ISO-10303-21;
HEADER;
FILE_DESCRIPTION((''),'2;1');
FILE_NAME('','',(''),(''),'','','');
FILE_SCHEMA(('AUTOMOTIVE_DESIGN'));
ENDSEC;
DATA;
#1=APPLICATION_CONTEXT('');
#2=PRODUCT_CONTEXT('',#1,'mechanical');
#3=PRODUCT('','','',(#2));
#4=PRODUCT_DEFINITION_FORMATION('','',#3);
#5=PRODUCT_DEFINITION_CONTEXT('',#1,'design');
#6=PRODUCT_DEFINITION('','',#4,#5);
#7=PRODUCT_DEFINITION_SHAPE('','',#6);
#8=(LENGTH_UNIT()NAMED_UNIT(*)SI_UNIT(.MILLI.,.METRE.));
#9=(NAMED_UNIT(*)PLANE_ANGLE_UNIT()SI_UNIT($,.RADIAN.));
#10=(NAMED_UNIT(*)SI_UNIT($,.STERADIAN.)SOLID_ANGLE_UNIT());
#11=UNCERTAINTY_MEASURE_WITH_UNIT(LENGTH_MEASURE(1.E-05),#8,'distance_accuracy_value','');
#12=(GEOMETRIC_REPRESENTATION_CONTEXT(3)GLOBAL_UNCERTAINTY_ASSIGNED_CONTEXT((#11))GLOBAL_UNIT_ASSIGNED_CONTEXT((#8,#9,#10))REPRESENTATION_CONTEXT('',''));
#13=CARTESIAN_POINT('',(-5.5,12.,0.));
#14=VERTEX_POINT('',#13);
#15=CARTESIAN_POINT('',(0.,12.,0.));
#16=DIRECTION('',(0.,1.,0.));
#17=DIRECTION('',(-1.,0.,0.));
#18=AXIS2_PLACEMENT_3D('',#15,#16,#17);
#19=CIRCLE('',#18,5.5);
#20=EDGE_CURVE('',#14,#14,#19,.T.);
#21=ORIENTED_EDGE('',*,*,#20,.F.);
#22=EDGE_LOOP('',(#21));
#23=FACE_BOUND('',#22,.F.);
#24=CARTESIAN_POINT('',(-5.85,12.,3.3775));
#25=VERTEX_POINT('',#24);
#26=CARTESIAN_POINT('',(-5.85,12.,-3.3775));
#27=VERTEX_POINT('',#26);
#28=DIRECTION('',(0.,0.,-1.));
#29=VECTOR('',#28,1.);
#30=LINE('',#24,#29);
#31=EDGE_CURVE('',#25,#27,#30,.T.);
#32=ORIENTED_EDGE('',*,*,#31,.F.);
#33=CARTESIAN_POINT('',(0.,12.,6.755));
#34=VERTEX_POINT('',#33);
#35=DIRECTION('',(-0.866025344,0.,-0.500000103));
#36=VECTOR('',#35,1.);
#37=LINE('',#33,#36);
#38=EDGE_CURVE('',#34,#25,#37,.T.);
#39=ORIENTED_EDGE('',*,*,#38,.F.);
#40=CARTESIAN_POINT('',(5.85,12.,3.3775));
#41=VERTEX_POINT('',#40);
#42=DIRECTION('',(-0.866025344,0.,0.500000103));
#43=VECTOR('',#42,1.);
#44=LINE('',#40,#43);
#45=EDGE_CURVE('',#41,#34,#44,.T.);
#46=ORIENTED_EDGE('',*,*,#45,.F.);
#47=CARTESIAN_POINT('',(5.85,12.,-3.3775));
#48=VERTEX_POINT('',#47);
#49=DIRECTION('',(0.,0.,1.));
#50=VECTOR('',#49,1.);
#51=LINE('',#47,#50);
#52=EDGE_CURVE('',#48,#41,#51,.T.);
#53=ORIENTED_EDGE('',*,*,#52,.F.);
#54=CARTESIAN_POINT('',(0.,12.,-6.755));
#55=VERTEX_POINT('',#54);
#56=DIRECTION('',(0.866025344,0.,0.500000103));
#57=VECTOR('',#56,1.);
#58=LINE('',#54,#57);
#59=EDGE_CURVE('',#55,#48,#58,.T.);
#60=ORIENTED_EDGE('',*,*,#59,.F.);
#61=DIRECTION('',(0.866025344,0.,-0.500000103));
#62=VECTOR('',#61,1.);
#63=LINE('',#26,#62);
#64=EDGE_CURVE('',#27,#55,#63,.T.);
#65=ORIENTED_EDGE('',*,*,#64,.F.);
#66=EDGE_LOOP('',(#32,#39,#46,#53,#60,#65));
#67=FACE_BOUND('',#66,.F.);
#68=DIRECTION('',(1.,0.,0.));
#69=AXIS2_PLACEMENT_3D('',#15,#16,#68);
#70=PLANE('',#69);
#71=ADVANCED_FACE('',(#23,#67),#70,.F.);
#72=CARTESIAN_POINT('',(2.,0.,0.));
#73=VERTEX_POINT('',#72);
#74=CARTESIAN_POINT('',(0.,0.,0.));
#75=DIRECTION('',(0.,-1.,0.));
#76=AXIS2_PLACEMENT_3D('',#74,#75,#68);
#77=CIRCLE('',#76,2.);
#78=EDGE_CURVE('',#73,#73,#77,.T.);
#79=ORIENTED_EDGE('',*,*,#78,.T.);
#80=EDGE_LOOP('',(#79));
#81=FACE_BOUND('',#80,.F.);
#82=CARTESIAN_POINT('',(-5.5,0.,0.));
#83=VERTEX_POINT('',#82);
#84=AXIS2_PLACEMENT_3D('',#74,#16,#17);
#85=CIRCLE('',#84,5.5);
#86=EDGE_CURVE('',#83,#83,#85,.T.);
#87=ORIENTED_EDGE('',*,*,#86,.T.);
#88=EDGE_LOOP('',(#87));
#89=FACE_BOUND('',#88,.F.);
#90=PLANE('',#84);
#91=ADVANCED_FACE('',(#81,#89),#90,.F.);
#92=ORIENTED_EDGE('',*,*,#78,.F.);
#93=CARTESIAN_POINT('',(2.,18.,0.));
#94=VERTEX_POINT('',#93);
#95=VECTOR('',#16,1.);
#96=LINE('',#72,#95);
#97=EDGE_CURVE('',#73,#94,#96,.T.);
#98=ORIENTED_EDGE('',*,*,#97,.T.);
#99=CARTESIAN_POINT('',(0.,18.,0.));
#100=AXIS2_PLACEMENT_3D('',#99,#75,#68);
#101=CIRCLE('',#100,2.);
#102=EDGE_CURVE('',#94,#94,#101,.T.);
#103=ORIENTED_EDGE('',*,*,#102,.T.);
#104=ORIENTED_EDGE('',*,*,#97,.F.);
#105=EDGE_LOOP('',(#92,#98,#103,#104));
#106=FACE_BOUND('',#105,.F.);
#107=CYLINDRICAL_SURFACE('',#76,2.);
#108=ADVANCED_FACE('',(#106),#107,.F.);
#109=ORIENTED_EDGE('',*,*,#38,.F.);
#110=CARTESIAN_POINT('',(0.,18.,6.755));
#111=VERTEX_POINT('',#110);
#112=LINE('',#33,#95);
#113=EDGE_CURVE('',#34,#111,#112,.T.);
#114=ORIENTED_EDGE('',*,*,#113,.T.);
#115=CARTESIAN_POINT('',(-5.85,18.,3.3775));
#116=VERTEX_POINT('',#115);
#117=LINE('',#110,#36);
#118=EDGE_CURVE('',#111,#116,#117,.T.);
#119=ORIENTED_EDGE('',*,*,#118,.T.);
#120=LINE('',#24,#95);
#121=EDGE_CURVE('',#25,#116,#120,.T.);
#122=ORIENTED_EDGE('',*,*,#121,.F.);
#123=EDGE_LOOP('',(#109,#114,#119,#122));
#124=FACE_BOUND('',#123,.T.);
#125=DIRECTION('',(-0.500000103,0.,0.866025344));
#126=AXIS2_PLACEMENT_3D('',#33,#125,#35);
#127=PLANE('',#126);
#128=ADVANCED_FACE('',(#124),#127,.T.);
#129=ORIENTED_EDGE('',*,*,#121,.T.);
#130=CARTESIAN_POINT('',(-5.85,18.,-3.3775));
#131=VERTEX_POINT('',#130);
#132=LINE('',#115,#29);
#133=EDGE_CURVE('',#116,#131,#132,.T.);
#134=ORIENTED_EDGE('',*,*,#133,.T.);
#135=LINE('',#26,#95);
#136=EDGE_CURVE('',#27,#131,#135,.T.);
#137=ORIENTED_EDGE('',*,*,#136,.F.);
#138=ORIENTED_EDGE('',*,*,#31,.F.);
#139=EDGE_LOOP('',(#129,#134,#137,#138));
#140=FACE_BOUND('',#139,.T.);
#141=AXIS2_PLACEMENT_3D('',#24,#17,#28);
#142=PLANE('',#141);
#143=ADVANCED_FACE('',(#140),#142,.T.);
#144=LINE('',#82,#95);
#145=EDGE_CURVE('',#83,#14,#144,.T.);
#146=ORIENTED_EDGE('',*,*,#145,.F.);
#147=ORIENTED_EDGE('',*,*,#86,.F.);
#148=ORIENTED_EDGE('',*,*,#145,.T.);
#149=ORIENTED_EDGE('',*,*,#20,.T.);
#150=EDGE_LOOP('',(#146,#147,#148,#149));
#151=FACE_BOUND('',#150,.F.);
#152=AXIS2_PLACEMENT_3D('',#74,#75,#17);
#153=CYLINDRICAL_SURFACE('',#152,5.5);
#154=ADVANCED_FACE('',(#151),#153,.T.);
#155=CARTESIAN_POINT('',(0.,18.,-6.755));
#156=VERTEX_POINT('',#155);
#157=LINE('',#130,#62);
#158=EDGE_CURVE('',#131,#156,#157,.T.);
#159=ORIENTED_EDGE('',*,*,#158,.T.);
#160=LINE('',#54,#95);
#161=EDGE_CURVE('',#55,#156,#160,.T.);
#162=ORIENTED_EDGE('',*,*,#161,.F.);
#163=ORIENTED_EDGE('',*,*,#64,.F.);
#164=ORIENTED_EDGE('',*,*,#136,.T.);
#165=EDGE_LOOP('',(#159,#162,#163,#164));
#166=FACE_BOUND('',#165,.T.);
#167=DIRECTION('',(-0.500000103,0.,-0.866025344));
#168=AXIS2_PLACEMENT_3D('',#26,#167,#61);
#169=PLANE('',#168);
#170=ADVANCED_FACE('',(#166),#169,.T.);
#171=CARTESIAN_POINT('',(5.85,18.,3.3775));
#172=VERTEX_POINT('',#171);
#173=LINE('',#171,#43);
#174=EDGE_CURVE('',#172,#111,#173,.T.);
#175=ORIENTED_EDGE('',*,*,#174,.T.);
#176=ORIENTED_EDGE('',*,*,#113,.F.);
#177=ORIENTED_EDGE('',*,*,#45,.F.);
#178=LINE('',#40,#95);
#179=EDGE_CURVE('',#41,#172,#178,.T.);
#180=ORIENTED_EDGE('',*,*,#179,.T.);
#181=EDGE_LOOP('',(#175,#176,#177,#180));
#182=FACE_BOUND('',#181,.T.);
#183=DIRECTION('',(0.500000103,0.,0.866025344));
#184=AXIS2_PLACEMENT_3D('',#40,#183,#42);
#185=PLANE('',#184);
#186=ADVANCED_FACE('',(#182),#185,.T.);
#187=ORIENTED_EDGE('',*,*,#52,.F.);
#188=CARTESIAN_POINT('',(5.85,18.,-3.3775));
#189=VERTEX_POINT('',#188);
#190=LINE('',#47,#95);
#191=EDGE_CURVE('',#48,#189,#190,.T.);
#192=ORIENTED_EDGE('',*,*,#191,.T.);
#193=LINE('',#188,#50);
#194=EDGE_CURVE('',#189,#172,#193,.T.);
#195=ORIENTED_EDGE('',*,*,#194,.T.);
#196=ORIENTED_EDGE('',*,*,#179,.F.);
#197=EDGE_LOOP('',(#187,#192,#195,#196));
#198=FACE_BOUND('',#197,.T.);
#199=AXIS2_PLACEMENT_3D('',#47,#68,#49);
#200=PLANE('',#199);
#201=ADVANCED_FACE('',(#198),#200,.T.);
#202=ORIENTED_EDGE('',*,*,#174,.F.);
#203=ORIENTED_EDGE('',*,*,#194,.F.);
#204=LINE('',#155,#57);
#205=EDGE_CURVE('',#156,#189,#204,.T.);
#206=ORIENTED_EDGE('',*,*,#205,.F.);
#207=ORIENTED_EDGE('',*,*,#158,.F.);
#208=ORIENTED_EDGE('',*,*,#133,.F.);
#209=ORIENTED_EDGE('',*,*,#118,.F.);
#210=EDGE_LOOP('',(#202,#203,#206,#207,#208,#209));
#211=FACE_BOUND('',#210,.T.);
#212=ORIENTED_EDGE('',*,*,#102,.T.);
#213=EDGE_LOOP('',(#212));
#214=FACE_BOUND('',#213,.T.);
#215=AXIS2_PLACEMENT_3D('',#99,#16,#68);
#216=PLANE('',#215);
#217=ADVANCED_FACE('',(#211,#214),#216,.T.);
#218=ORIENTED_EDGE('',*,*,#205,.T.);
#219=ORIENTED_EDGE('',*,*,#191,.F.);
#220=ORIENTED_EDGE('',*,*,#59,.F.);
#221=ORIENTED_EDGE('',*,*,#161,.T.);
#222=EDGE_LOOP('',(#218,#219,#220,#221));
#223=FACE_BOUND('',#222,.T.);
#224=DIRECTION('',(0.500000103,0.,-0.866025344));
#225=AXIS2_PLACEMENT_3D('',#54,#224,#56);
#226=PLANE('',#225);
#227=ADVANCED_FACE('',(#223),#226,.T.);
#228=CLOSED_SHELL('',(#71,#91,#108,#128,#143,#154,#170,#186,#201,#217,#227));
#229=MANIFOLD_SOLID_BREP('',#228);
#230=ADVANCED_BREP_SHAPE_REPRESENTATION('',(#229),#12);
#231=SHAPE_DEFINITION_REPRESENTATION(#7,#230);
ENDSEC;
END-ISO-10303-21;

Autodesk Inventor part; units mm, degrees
ref_plane "XZ Plane" through (0, 0, 0) normal (0, 1, 0) x (-1, 0, 0)
ref_plane "XY Plane" through (0, 0, 0) normal (0, 0, 1) x (1, 0, 0)
sketch "草圖1" plane through (0, 0, 0) normal (0, 1, 0) x (-1, 0, 0)
  circle A0 centre (0, 0) radius 5.5
  dimension "d0" = 11
extrude "擠出1" add sketch "草圖1" along normal blind 12
sketch "草圖2" plane through (0, 12, 0) normal (0, 1, 0) x (1, 0, 0)
  line L0 (5.85, -3.3775) -> (0, -6.755)
  line L1 (0, -6.755) -> (-5.85, -3.3775)
  line L2 (-5.85, -3.3775) -> (-5.85, 3.3775)
  line L3 (-5.85, 3.3775) -> (0, 6.755)
  line L4 (0, 6.755) -> (5.85, 3.3775)
  line L5 (5.85, 3.3775) -> (5.85, -3.3775)
  point P0 (0, 0)
  point P1 (0, 0)
  dimension "d3" = 11.7
extrude "擠出2" add sketch "草圖2" along normal blind 6
sketch "草圖3" plane through (0, 0, 0) normal (0, -1, 0) x (1, 0, 0)
  circle A0 centre (0, 0) radius 2
  dimension "d6" = 4
extrude "擠出3" cut sketch "草圖3" against normal up to surface (18 mm away)
sketch "草圖6" plane through (0, 0, 0) normal (0, -1, 0) x (1, 0, 0)
  circle A0 centre (0, 0) radius 2 projected
  circle A1 centre (0, 0) radius 5.5 projected
  circle A2 centre (0, 0) radius 2 projected
  line L0 (1.0536, 1.7) -> (-1.0536, 1.7)
  dimension "d15" = 1.7
ref_plane "工作平面2" through (-5.5, 0, 0) normal (1, 0, 0) x (0, 1, 0)
ref_plane "工作平面1" through (5.5, 0, 0) normal (1, 0, 0) x (0, 1, 0)
sketch "草圖8" plane through (0, 0, 0) normal (0, -1, 0) x (1, 0, 0)
  arc A0 (-0.7518, 6.0636) -> (-1.1588, 5.9991) centre (0, 0) ccw
  arc A1 (-1.1588, 5.9991) -> (-1.2788, 5.8304) centre (-1.1303, 5.8518) ccw
  arc A2 (-1.2782, 5.5484) -> (-1.2788, 5.8304) centre (-2.2685, 5.6874) ccw
  arc A3 (-2.2271, 5.24) -> (-1.2782, 5.5484) centre (-1.8278, 5.6255) ccw
  arc A4 (-2.3924, 5.4685) -> (-2.2271, 5.24) centre (-1.5077, 5.9346) ccw
  arc A5 (-2.3924, 5.4685) -> (-2.5887, 5.5345) centre (-2.5252, 5.3986) ccw
  arc A6 (-2.5887, 5.5345) -> (-2.9559, 5.3474) centre (0, 0) ccw
  arc A7 (-2.9559, 5.3474) -> (-3.0179, 5.1498) centre (-2.8833, 5.2161) ccw
  arc A8 (-2.9302, 4.8818) -> (-3.0179, 5.1498) centre (-3.915, 4.708) ccw
  arc A9 (-3.7374, 4.2953) -> (-2.9302, 4.8818) centre (-3.4767, 4.7853) ccw
  arc A10 (-3.9652, 4.4616) -> (-3.7374, 4.2953) centre (-3.2678, 5.1782) ccw
  arc A11 (-3.9652, 4.4616) -> (-4.1723, 4.4637) centre (-4.0698, 4.3541) ccw
  arc A12 (-4.1723, 4.4637) -> (-4.4637, 4.1723) centre (0, 0) ccw
  arc A13 (-4.4637, 4.1723) -> (-4.4616, 3.9652) centre (-4.3541, 4.0698) ccw
  arc A14 (-4.2953, 3.7374) -> (-4.4616, 3.9652) centre (-5.1782, 3.2678) ccw
  arc A15 (-4.8818, 2.9302) -> (-4.2953, 3.7374) centre (-4.7853, 3.4767) ccw
  arc A16 (-5.1498, 3.0179) -> (-4.8818, 2.9302) centre (-4.708, 3.915) ccw
  arc A17 (-5.1498, 3.0179) -> (-5.3474, 2.9559) centre (-5.2161, 2.8833) ccw
  arc A18 (-5.3474, 2.9559) -> (-5.5345, 2.5887) centre (0, 0) ccw
  arc A19 (-5.5345, 2.5887) -> (-5.4685, 2.3924) centre (-5.3986, 2.5252) ccw
  arc A20 (-5.24, 2.2271) -> (-5.4685, 2.3924) centre (-5.9346, 1.5077) ccw
  arc A21 (-5.5484, 1.2782) -> (-5.24, 2.2271) centre (-5.6255, 1.8278) ccw
  arc A22 (-5.8304, 1.2788) -> (-5.5484, 1.2782) centre (-5.6874, 2.2685) ccw
  arc A23 (-5.8304, 1.2788) -> (-5.9991, 1.1588) centre (-5.8518, 1.1303) ccw
  arc A24 (-5.9991, 1.1588) -> (-6.0636, 0.7518) centre (0, 0) ccw
  arc A25 (-6.0636, 0.7518) -> (-5.9402, 0.5855) centre (-5.9147, 0.7333) ccw
  arc A26 (-5.6718, 0.4989) -> (-5.9402, 0.5855) centre (-6.11, -0.4) ccw
  arc A27 (-5.6718, -0.4989) -> (-5.6718, 0.4989) centre (-5.915, 0) ccw
  arc A28 (-5.9402, -0.5855) -> (-5.6718, -0.4989) centre (-6.11, 0.4) ccw
  arc A29 (-5.9402, -0.5855) -> (-6.0636, -0.7518) centre (-5.9147, -0.7333) ccw
  arc A30 (-6.0636, -0.7518) -> (-5.9991, -1.1588) centre (0, 0) ccw
  arc A31 (-5.9991, -1.1588) -> (-5.8304, -1.2788) centre (-5.8518, -1.1303) ccw
  arc A32 (-5.5484, -1.2782) -> (-5.8304, -1.2788) centre (-5.6874, -2.2685) ccw
  arc A33 (-5.24, -2.2271) -> (-5.5484, -1.2782) centre (-5.6255, -1.8278) ccw
  arc A34 (-5.4685, -2.3924) -> (-5.24, -2.2271) centre (-5.9346, -1.5077) ccw
  arc A35 (-5.4685, -2.3924) -> (-5.5345, -2.5887) centre (-5.3986, -2.5252) ccw
  arc A36 (-5.5345, -2.5887) -> (-5.3474, -2.9559) centre (0, 0) ccw
  arc A37 (-5.3474, -2.9559) -> (-5.1498, -3.0179) centre (-5.2161, -2.8833) ccw
  arc A38 (-4.8818, -2.9302) -> (-5.1498, -3.0179) centre (-4.708, -3.915) ccw
  arc A39 (-4.2953, -3.7374) -> (-4.8818, -2.9302) centre (-4.7853, -3.4767) ccw
  arc A40 (-4.4616, -3.9652) -> (-4.2953, -3.7374) centre (-5.1782, -3.2678) ccw
  arc A41 (-4.4616, -3.9652) -> (-4.4637, -4.1723) centre (-4.3541, -4.0698) ccw
  arc A42 (-4.4637, -4.1723) -> (-4.1723, -4.4637) centre (0, 0) ccw
  arc A43 (-4.1723, -4.4637) -> (-3.9652, -4.4616) centre (-4.0698, -4.3541) ccw
  arc A44 (-3.7374, -4.2953) -> (-3.9652, -4.4616) centre (-3.2678, -5.1782) ccw
  arc A45 (-2.9302, -4.8818) -> (-3.7374, -4.2953) centre (-3.4767, -4.7853) ccw
  arc A46 (-3.0179, -5.1498) -> (-2.9302, -4.8818) centre (-3.915, -4.708) ccw
  arc A47 (-3.0179, -5.1498) -> (-2.9559, -5.3474) centre (-2.8833, -5.2161) ccw
  arc A48 (-2.9559, -5.3474) -> (-2.5887, -5.5345) centre (0, 0) ccw
  arc A49 (-2.5887, -5.5345) -> (-2.3924, -5.4685) centre (-2.5252, -5.3986) ccw
  arc A50 (-2.2271, -5.24) -> (-2.3924, -5.4685) centre (-1.5077, -5.9346) ccw
  arc A51 (-1.2782, -5.5484) -> (-2.2271, -5.24) centre (-1.8278, -5.6255) ccw
  arc A52 (-1.2788, -5.8304) -> (-1.2782, -5.5484) centre (-2.2685, -5.6874) ccw
  arc A53 (-1.2788, -5.8304) -> (-1.1588, -5.9991) centre (-1.1303, -5.8518) ccw
  arc A54 (-1.1588, -5.9991) -> (-0.7518, -6.0636) centre (0, 0) ccw
  arc A55 (-0.7518, -6.0636) -> (-0.5855, -5.9402) centre (-0.7333, -5.9147) ccw
  arc A56 (-0.4989, -5.6718) -> (-0.5855, -5.9402) centre (0.4, -6.11) ccw
  arc A57 (0.4989, -5.6718) -> (-0.4989, -5.6718) centre (0, -5.915) ccw
  arc A58 (0.5855, -5.9402) -> (0.4989, -5.6718) centre (-0.4, -6.11) ccw
  arc A59 (0.5855, -5.9402) -> (0.7518, -6.0636) centre (0.7333, -5.9147) ccw
  arc A60 (0.7518, -6.0636) -> (1.1588, -5.9991) centre (0, 0) ccw
  arc A61 (1.1588, -5.9991) -> (1.2788, -5.8304) centre (1.1303, -5.8518) ccw
  arc A62 (1.2782, -5.5484) -> (1.2788, -5.8304) centre (2.2685, -5.6874) ccw
  arc A63 (2.2271, -5.24) -> (1.2782, -5.5484) centre (1.8278, -5.6255) ccw
  arc A64 (2.3924, -5.4685) -> (2.2271, -5.24) centre (1.5077, -5.9346) ccw
  arc A65 (2.3924, -5.4685) -> (2.5887, -5.5345) centre (2.5252, -5.3986) ccw
  arc A66 (2.5887, -5.5345) -> (2.9559, -5.3474) centre (0, 0) ccw
  arc A67 (2.9559, -5.3474) -> (3.0179, -5.1498) centre (2.8833, -5.2161) ccw
  arc A68 (2.9302, -4.8818) -> (3.0179, -5.1498) centre (3.915, -4.708) ccw
  arc A69 (3.7374, -4.2953) -> (2.9302, -4.8818) centre (3.4767, -4.7853) ccw
  arc A70 (3.9652, -4.4616) -> (3.7374, -4.2953) centre (3.2678, -5.1782) ccw
  arc A71 (3.9652, -4.4616) -> (4.1723, -4.4637) centre (4.0698, -4.3541) ccw
  arc A72 (4.1723, -4.4637) -> (4.4637, -4.1723) centre (0, 0) ccw
  arc A73 (4.4637, -4.1723) -> (4.4616, -3.9652) centre (4.3541, -4.0698) ccw
  arc A74 (4.2953, -3.7374) -> (4.4616, -3.9652) centre (5.1782, -3.2678) ccw
  arc A75 (4.8818, -2.9302) -> (4.2953, -3.7374) centre (4.7853, -3.4767) ccw
  arc A76 (5.1498, -3.0179) -> (4.8818, -2.9302) centre (4.708, -3.915) ccw
  arc A77 (5.1498, -3.0179) -> (5.3474, -2.9559) centre (5.2161, -2.8833) ccw
  arc A78 (5.3474, -2.9559) -> (5.5345, -2.5887) centre (0, 0) ccw
  arc A79 (5.5345, -2.5887) -> (5.4685, -2.3924) centre (5.3986, -2.5252) ccw
  arc A80 (5.24, -2.2271) -> (5.4685, -2.3924) centre (5.9346, -1.5077) ccw
  arc A81 (5.5484, -1.2782) -> (5.24, -2.2271) centre (5.6255, -1.8278) ccw
  arc A82 (5.8304, -1.2788) -> (5.5484, -1.2782) centre (5.6874, -2.2685) ccw
  arc A83 (5.8304, -1.2788) -> (5.9991, -1.1588) centre (5.8518, -1.1303) ccw
  arc A84 (5.9991, -1.1588) -> (6.0636, -0.7518) centre (0, 0) ccw
  arc A85 (6.0636, -0.7518) -> (5.9402, -0.5855) centre (5.9147, -0.7333) ccw
  arc A86 (5.6718, -0.4989) -> (5.9402, -0.5855) centre (6.11, 0.4) ccw
  arc A87 (5.6718, 0.4989) -> (5.6718, -0.4989) centre (5.915, 0) ccw
  arc A88 (5.9402, 0.5855) -> (5.6718, 0.4989) centre (6.11, -0.4) ccw
  arc A89 (5.9402, 0.5855) -> (6.0636, 0.7518) centre (5.9147, 0.7333) ccw
  arc A90 (6.0636, 0.7518) -> (5.9991, 1.1588) centre (0, 0) ccw
  arc A91 (5.9991, 1.1588) -> (5.8304, 1.2788) centre (5.8518, 1.1303) ccw
  arc A92 (5.5484, 1.2782) -> (5.8304, 1.2788) centre (5.6874, 2.2685) ccw
  arc A93 (5.24, 2.2271) -> (5.5484, 1.2782) centre (5.6255, 1.8278) ccw
  arc A94 (5.4685, 2.3924) -> (5.24, 2.2271) centre (5.9346, 1.5077) ccw
  arc A95 (5.4685, 2.3924) -> (5.5345, 2.5887) centre (5.3986, 2.5252) ccw
  arc A96 (5.5345, 2.5887) -> (5.3474, 2.9559) centre (0, 0) ccw
  arc A97 (5.3474, 2.9559) -> (5.1498, 3.0179) centre (5.2161, 2.8833) ccw
  arc A98 (4.8818, 2.9302) -> (5.1498, 3.0179) centre (4.708, 3.915) ccw
  arc A99 (4.2953, 3.7374) -> (4.8818, 2.9302) centre (4.7853, 3.4767) ccw
  arc A100 (4.4616, 3.9652) -> (4.2953, 3.7374) centre (5.1782, 3.2678) ccw
  arc A101 (4.4616, 3.9652) -> (4.4637, 4.1723) centre (4.3541, 4.0698) ccw
  arc A102 (4.4637, 4.1723) -> (4.1723, 4.4637) centre (0, 0) ccw
  arc A103 (4.1723, 4.4637) -> (3.9652, 4.4616) centre (4.0698, 4.3541) ccw
  arc A104 (3.7374, 4.2953) -> (3.9652, 4.4616) centre (3.2678, 5.1782) ccw
  arc A105 (2.9302, 4.8818) -> (3.7374, 4.2953) centre (3.4767, 4.7853) ccw
  arc A106 (3.0179, 5.1498) -> (2.9302, 4.8818) centre (3.915, 4.708) ccw
  arc A107 (3.0179, 5.1498) -> (2.9559, 5.3474) centre (2.8833, 5.2161) ccw
  arc A108 (2.9559, 5.3474) -> (2.5887, 5.5345) centre (0, 0) ccw
  arc A109 (2.5887, 5.5345) -> (2.3924, 5.4685) centre (2.5252, 5.3986) ccw
  arc A110 (2.2271, 5.24) -> (2.3924, 5.4685) centre (1.5077, 5.9346) ccw
  arc A111 (1.2782, 5.5484) -> (2.2271, 5.24) centre (1.8278, 5.6255) ccw
  arc A112 (1.2788, 5.8304) -> (1.2782, 5.5484) centre (2.2685, 5.6874) ccw
  arc A113 (1.2788, 5.8304) -> (1.1588, 5.9991) centre (1.1303, 5.8518) ccw
  arc A114 (1.1588, 5.9991) -> (0.7518, 6.0636) centre (0, 0) ccw
  arc A115 (0.7518, 6.0636) -> (0.5855, 5.9402) centre (0.7333, 5.9147) ccw
  arc A116 (0.4989, 5.6718) -> (0.5855, 5.9402) centre (-0.4, 6.11) ccw
  arc A117 (-0.4989, 5.6718) -> (0.4989, 5.6718) centre (0, 5.915) ccw
  arc A118 (-0.5855, 5.9402) -> (-0.4989, 5.6718) centre (0.4, 6.11) ccw
  arc A119 (-0.5855, 5.9402) -> (-0.7518, 6.0636) centre (-0.7333, 5.9147) ccw
extrude "擠出7" [suppressed]
sketch "草圖9" plane through (0, 0, 0) normal (0, 1, 0) x (1, 0, 0)
  point P0 (0, 0)
extrude "擠出8" [suppressed]
sketch "草圖10" plane through (0, 0, 0) normal (0, -1, 0) x (1, 0, 0)
  arc A0 (-5.5, 0) -> (-5.5, 0) centre (0, 0) ccw projected
  arc A1 (-5.5, 0) -> (-5.5, 0) centre (0, 0) ccw projected
  circle A2 centre (0, 0) radius 5.5 projected
  arc A3 (-0.7518, 6.0636) -> (-1.1588, 5.9991) centre (0, 0) ccw projected
  arc A4 (-1.1588, 5.9991) -> (-1.2788, 5.8304) centre (-1.1303, 5.8518) ccw projected
  arc A5 (-1.2782, 5.5484) -> (-1.2788, 5.8304) centre (-2.2685, 5.6874) ccw projected
  arc A6 (-2.2271, 5.24) -> (-1.2782, 5.5484) centre (-1.8278, 5.6255) ccw projected
  arc A7 (-2.3924, 5.4685) -> (-2.2271, 5.24) centre (-1.5077, 5.9346) ccw projected
  arc A8 (-2.3924, 5.4685) -> (-2.5887, 5.5345) centre (-2.5252, 5.3986) ccw projected
  arc A9 (-2.5887, 5.5345) -> (-2.9559, 5.3474) centre (0, 0) ccw projected
  arc A10 (-2.9559, 5.3474) -> (-3.0179, 5.1498) centre (-2.8833, 5.2161) ccw projected
  arc A11 (-2.9302, 4.8818) -> (-3.0179, 5.1498) centre (-3.915, 4.708) ccw projected
  arc A12 (-3.7374, 4.2953) -> (-2.9302, 4.8818) centre (-3.4767, 4.7853) ccw projected
  arc A13 (-3.9652, 4.4616) -> (-3.7374, 4.2953) centre (-3.2678, 5.1782) ccw projected
  arc A14 (-3.9652, 4.4616) -> (-4.1723, 4.4637) centre (-4.0698, 4.3541) ccw projected
  arc A15 (-4.1723, 4.4637) -> (-4.4637, 4.1723) centre (0, 0) ccw projected
  arc A16 (-4.4637, 4.1723) -> (-4.4616, 3.9652) centre (-4.3541, 4.0698) ccw projected
  arc A17 (-4.2953, 3.7374) -> (-4.4616, 3.9652) centre (-5.1782, 3.2678) ccw projected
  arc A18 (-4.8818, 2.9302) -> (-4.2953, 3.7374) centre (-4.7853, 3.4767) ccw projected
  arc A19 (-5.1498, 3.0179) -> (-4.8818, 2.9302) centre (-4.708, 3.915) ccw projected
  arc A20 (-5.1498, 3.0179) -> (-5.3474, 2.9559) centre (-5.2161, 2.8833) ccw projected
  arc A21 (-5.3474, 2.9559) -> (-5.5345, 2.5887) centre (0, 0) ccw projected
  arc A22 (-5.5345, 2.5887) -> (-5.4685, 2.3924) centre (-5.3986, 2.5252) ccw projected
  arc A23 (-5.24, 2.2271) -> (-5.4685, 2.3924) centre (-5.9346, 1.5077) ccw projected
  arc A24 (-5.5484, 1.2782) -> (-5.24, 2.2271) centre (-5.6255, 1.8278) ccw projected
  arc A25 (-5.8304, 1.2788) -> (-5.5484, 1.2782) centre (-5.6874, 2.2685) ccw projected
  arc A26 (-5.8304, 1.2788) -> (-5.9991, 1.1588) centre (-5.8518, 1.1303) ccw projected
  arc A27 (-5.9991, 1.1588) -> (-6.0636, 0.7518) centre (0, 0) ccw projected
  arc A28 (-6.0636, 0.7518) -> (-5.9402, 0.5855) centre (-5.9147, 0.7333) ccw projected
  arc A29 (-5.6718, 0.4989) -> (-5.9402, 0.5855) centre (-6.11, -0.4) ccw projected
  arc A30 (-5.6718, -0.4989) -> (-5.6718, 0.4989) centre (-5.915, 0) ccw projected
  arc A31 (-5.9402, -0.5855) -> (-5.6718, -0.4989) centre (-6.11, 0.4) ccw projected
  arc A32 (-5.9402, -0.5855) -> (-6.0636, -0.7518) centre (-5.9147, -0.7333) ccw projected
  arc A33 (-6.0636, -0.7518) -> (-5.9991, -1.1588) centre (0, 0) ccw projected
  arc A34 (-5.9991, -1.1588) -> (-5.8304, -1.2788) centre (-5.8518, -1.1303) ccw projected
  arc A35 (-5.5484, -1.2782) -> (-5.8304, -1.2788) centre (-5.6874, -2.2685) ccw projected
  arc A36 (-5.24, -2.2271) -> (-5.5484, -1.2782) centre (-5.6255, -1.8278) ccw projected
  arc A37 (-5.4685, -2.3924) -> (-5.24, -2.2271) centre (-5.9346, -1.5077) ccw projected
  arc A38 (-5.4685, -2.3924) -> (-5.5345, -2.5887) centre (-5.3986, -2.5252) ccw projected
  arc A39 (-5.5345, -2.5887) -> (-5.3474, -2.9559) centre (0, 0) ccw projected
  arc A40 (-5.3474, -2.9559) -> (-5.1498, -3.0179) centre (-5.2161, -2.8833) ccw projected
  arc A41 (-4.8818, -2.9302) -> (-5.1498, -3.0179) centre (-4.708, -3.915) ccw projected
  arc A42 (-4.2953, -3.7374) -> (-4.8818, -2.9302) centre (-4.7853, -3.4767) ccw projected
  arc A43 (-4.4616, -3.9652) -> (-4.2953, -3.7374) centre (-5.1782, -3.2678) ccw projected
  arc A44 (-4.4616, -3.9652) -> (-4.4637, -4.1723) centre (-4.3541, -4.0698) ccw projected
  arc A45 (-4.4637, -4.1723) -> (-4.1723, -4.4637) centre (0, 0) ccw projected
  arc A46 (-4.1723, -4.4637) -> (-3.9652, -4.4616) centre (-4.0698, -4.3541) ccw projected
  arc A47 (-3.7374, -4.2953) -> (-3.9652, -4.4616) centre (-3.2678, -5.1782) ccw projected
  arc A48 (-2.9302, -4.8818) -> (-3.7374, -4.2953) centre (-3.4767, -4.7853) ccw projected
  arc A49 (-3.0179, -5.1498) -> (-2.9302, -4.8818) centre (-3.915, -4.708) ccw projected
  arc A50 (-3.0179, -5.1498) -> (-2.9559, -5.3474) centre (-2.8833, -5.2161) ccw projected
  arc A51 (-2.9559, -5.3474) -> (-2.5887, -5.5345) centre (0, 0) ccw projected
  arc A52 (-2.5887, -5.5345) -> (-2.3924, -5.4685) centre (-2.5252, -5.3986) ccw projected
  arc A53 (-2.2271, -5.24) -> (-2.3924, -5.4685) centre (-1.5077, -5.9346) ccw projected
  arc A54 (-1.2782, -5.5484) -> (-2.2271, -5.24) centre (-1.8278, -5.6255) ccw projected
  arc A55 (-1.2788, -5.8304) -> (-1.2782, -5.5484) centre (-2.2685, -5.6874) ccw projected
  arc A56 (-1.2788, -5.8304) -> (-1.1588, -5.9991) centre (-1.1303, -5.8518) ccw projected
  arc A57 (-1.1588, -5.9991) -> (-0.7518, -6.0636) centre (0, 0) ccw projected
  arc A58 (-0.7518, -6.0636) -> (-0.5855, -5.9402) centre (-0.7333, -5.9147) ccw projected
  arc A59 (-0.4989, -5.6718) -> (-0.5855, -5.9402) centre (0.4, -6.11) ccw projected
  arc A60 (0.4989, -5.6718) -> (-0.4989, -5.6718) centre (0, -5.915) ccw projected
  arc A61 (0.5855, -5.9402) -> (0.4989, -5.6718) centre (-0.4, -6.11) ccw projected
  arc A62 (0.5855, -5.9402) -> (0.7518, -6.0636) centre (0.7333, -5.9147) ccw projected
  arc A63 (0.7518, -6.0636) -> (1.1588, -5.9991) centre (0, 0) ccw projected
  arc A64 (1.1588, -5.9991) -> (1.2788, -5.8304) centre (1.1303, -5.8518) ccw projected
  arc A65 (1.2782, -5.5484) -> (1.2788, -5.8304) centre (2.2685, -5.6874) ccw projected
  arc A66 (2.2271, -5.24) -> (1.2782, -5.5484) centre (1.8278, -5.6255) ccw projected
  arc A67 (2.3924, -5.4685) -> (2.2271, -5.24) centre (1.5077, -5.9346) ccw projected
  arc A68 (2.3924, -5.4685) -> (2.5887, -5.5345) centre (2.5252, -5.3986) ccw projected
  arc A69 (2.5887, -5.5345) -> (2.9559, -5.3474) centre (0, 0) ccw projected
  arc A70 (2.9559, -5.3474) -> (3.0179, -5.1498) centre (2.8833, -5.2161) ccw projected
  arc A71 (2.9302, -4.8818) -> (3.0179, -5.1498) centre (3.915, -4.708) ccw projected
  arc A72 (3.7374, -4.2953) -> (2.9302, -4.8818) centre (3.4767, -4.7853) ccw projected
  arc A73 (3.9652, -4.4616) -> (3.7374, -4.2953) centre (3.2678, -5.1782) ccw projected
  arc A74 (3.9652, -4.4616) -> (4.1723, -4.4637) centre (4.0698, -4.3541) ccw projected
  arc A75 (4.1723, -4.4637) -> (4.4637, -4.1723) centre (0, 0) ccw projected
  arc A76 (4.4637, -4.1723) -> (4.4616, -3.9652) centre (4.3541, -4.0698) ccw projected
  arc A77 (4.2953, -3.7374) -> (4.4616, -3.9652) centre (5.1782, -3.2678) ccw projected
  arc A78 (4.8818, -2.9302) -> (4.2953, -3.7374) centre (4.7853, -3.4767) ccw projected
  arc A79 (5.1498, -3.0179) -> (4.8818, -2.9302) centre (4.708, -3.915) ccw projected
  arc A80 (5.1498, -3.0179) -> (5.3474, -2.9559) centre (5.2161, -2.8833) ccw projected
  arc A81 (5.3474, -2.9559) -> (5.5345, -2.5887) centre (0, 0) ccw projected
  arc A82 (5.5345, -2.5887) -> (5.4685, -2.3924) centre (5.3986, -2.5252) ccw projected
  arc A83 (5.24, -2.2271) -> (5.4685, -2.3924) centre (5.9346, -1.5077) ccw projected
  arc A84 (5.5484, -1.2782) -> (5.24, -2.2271) centre (5.6255, -1.8278) ccw projected
  arc A85 (5.8304, -1.2788) -> (5.5484, -1.2782) centre (5.6874, -2.2685) ccw projected
  arc A86 (5.8304, -1.2788) -> (5.9991, -1.1588) centre (5.8518, -1.1303) ccw projected
  arc A87 (5.9991, -1.1588) -> (6.0636, -0.7518) centre (0, 0) ccw projected
  arc A88 (6.0636, -0.7518) -> (5.9402, -0.5855) centre (5.9147, -0.7333) ccw projected
  arc A89 (5.6718, -0.4989) -> (5.9402, -0.5855) centre (6.11, 0.4) ccw projected
  arc A90 (5.6718, 0.4989) -> (5.6718, -0.4989) centre (5.915, 0) ccw projected
  arc A91 (5.9402, 0.5855) -> (5.6718, 0.4989) centre (6.11, -0.4) ccw projected
  arc A92 (5.9402, 0.5855) -> (6.0636, 0.7518) centre (5.9147, 0.7333) ccw projected
  arc A93 (6.0636, 0.7518) -> (5.9991, 1.1588) centre (0, 0) ccw projected
  arc A94 (5.9991, 1.1588) -> (5.8304, 1.2788) centre (5.8518, 1.1303) ccw projected
  arc A95 (5.5484, 1.2782) -> (5.8304, 1.2788) centre (5.6874, 2.2685) ccw projected
  arc A96 (5.24, 2.2271) -> (5.5484, 1.2782) centre (5.6255, 1.8278) ccw projected
  arc A97 (5.4685, 2.3924) -> (5.24, 2.2271) centre (5.9346, 1.5077) ccw projected
  arc A98 (5.4685, 2.3924) -> (5.5345, 2.5887) centre (5.3986, 2.5252) ccw projected
  arc A99 (5.5345, 2.5887) -> (5.3474, 2.9559) centre (0, 0) ccw projected
  arc A100 (5.3474, 2.9559) -> (5.1498, 3.0179) centre (5.2161, 2.8833) ccw projected
  arc A101 (4.8818, 2.9302) -> (5.1498, 3.0179) centre (4.708, 3.915) ccw projected
  arc A102 (4.2953, 3.7374) -> (4.8818, 2.9302) centre (4.7853, 3.4767) ccw projected
  arc A103 (4.4616, 3.9652) -> (4.2953, 3.7374) centre (5.1782, 3.2678) ccw projected
  arc A104 (4.4616, 3.9652) -> (4.4637, 4.1723) centre (4.3541, 4.0698) ccw projected
  arc A105 (4.4637, 4.1723) -> (4.1723, 4.4637) centre (0, 0) ccw projected
  arc A106 (4.1723, 4.4637) -> (3.9652, 4.4616) centre (4.0698, 4.3541) ccw projected
  arc A107 (3.7374, 4.2953) -> (3.9652, 4.4616) centre (3.2678, 5.1782) ccw projected
  arc A108 (2.9302, 4.8818) -> (3.7374, 4.2953) centre (3.4767, 4.7853) ccw projected
  arc A109 (3.0179, 5.1498) -> (2.9302, 4.8818) centre (3.915, 4.708) ccw projected
  arc A110 (3.0179, 5.1498) -> (2.9559, 5.3474) centre (2.8833, 5.2161) ccw projected
  arc A111 (2.9559, 5.3474) -> (2.5887, 5.5345) centre (0, 0) ccw projected
  arc A112 (2.5887, 5.5345) -> (2.3924, 5.4685) centre (2.5252, 5.3986) ccw projected
  arc A113 (2.2271, 5.24) -> (2.3924, 5.4685) centre (1.5077, 5.9346) ccw projected
  arc A114 (1.2782, 5.5484) -> (2.2271, 5.24) centre (1.8278, 5.6255) ccw projected
  arc A115 (1.2788, 5.8304) -> (1.2782, 5.5484) centre (2.2685, 5.6874) ccw projected
  arc A116 (1.2788, 5.8304) -> (1.1588, 5.9991) centre (1.1303, 5.8518) ccw projected
  arc A117 (1.1588, 5.9991) -> (0.7518, 6.0636) centre (0, 0) ccw projected
  arc A118 (0.7518, 6.0636) -> (0.5855, 5.9402) centre (0.7333, 5.9147) ccw projected
  arc A119 (0.4989, 5.6718) -> (0.5855, 5.9402) centre (-0.4, 6.11) ccw projected
  arc A120 (-0.4989, 5.6718) -> (0.4989, 5.6718) centre (0, 5.915) ccw projected
  arc A121 (-0.5855, 5.9402) -> (-0.4989, 5.6718) centre (0.4, 6.11) ccw projected
  arc A122 (-0.5855, 5.9402) -> (-0.7518, 6.0636) centre (-0.7333, 5.9147) ccw projected
  point P0 (4.6491, -2.9387)
  point P1 (4.2315, -3.5134)
  point P2 (1.3583, 5.3296)
  point P3 (2.0338, 5.1101)
  point P4 (-5.4885, -0.3552)
  point P5 (-5.4885, 0.3552)
  point P6 (-2.0338, 5.1101)
  point P7 (-1.3583, 5.3296)
  point P8 (2.9387, 4.6491)
  point P9 (3.5134, 4.2315)
  point P10 (5.1101, 2.0338)
  point P11 (5.3296, 1.3583)
  point P12 (5.3296, -1.3583)
  point P13 (5.1101, -2.0338)
  point P14 (2.0338, -5.1101)
  point P15 (1.3583, -5.3296)
  point P16 (-2.9387, -4.6491)
  point P17 (-3.5134, -4.2315)
  point P18 (-5.1101, -2.0338)
  point P19 (-5.3296, -1.3583)
  point P20 (-4.6491, 2.9387)
  point P21 (-4.2315, 3.5134)
  point P22 (0.3552, -5.4885)
  point P23 (-0.3552, -5.4885)
  point P24 (-0.3552, 5.4885)
  point P25 (0.3552, 5.4885)
  point P26 (4.2315, 3.5134)
  point P27 (4.6491, 2.9387)
  point P28 (5.4885, 0.3552)
  point P29 (5.4885, -0.3552)
  point P30 (3.5134, -4.2315)
  point P31 (2.9387, -4.6491)
  point P32 (-1.3583, -5.3296)
  point P33 (-2.0338, -5.1101)
  point P34 (-4.2315, -3.5134)
  point P35 (-4.6491, -2.9387)
  point P36 (-5.3296, 1.3583)
  point P37 (-5.1101, 2.0338)
  point P38 (-3.5134, 4.2315)
  point P39 (-2.9387, 4.6491)
  point P40 (0.3552, 5.4885)
  point P41 (-0.3552, 5.4885)
  point P42 (0.3552, 5.4885)
  point P43 (-0.3552, 5.4885)
extrude "擠出9" [suppressed]
sketch "草圖11" plane through (0, 1, 0) normal (0, 1, 0) x (1, 0, 0)
  circle A0 centre (0, 0) radius 5.5 projected
  circle A1 centre (0, 0) radius 6.5
  arc A2 (-4.2315, 3.5134) -> (-4.6491, 2.9387) centre (0, 0) ccw projected
  point P0 (5.4885, -0.3552)
  point P1 (5.4885, 0.3552)
  dimension "d26" = 13
extrude "擠出10" [suppressed]
sketch "草圖5" plane through (0, 0, 0) normal (1, 0, 0) x (0, 1, 0)
  circle A0 centre (-2, 0) radius 1.475
  line L0 (0, 21.2872) -> (0, -21.2872) projected
  line L1 (1, -6.5) -> (1, 6.5) projected
  point P0 (0, 0)
  dimension "d32" = 3
  dimension "d33" = 2.95
extrude "擠出5" [suppressed]
sketch "草圖7" plane through (-5.5, 0, 0) normal (1, 0, 0) x (0, 1, 0)
  circle A0 centre (-2, 0) radius 1.525
  point P0 (0, 0)
  point P1 (-2, 0)
  dimension "d17" = 3.05
extrude "擠出6" [suppressed]
mirror "鏡射1" [suppressed]
sketch "草圖12" plane through (0, 18, 0) normal (0, 1, 0) x (1, 0, 0)
  circle A0 centre (0, 0) radius 2 projected
extrude "擠出11" [suppressed]
sketch "草圖13" plane through (0, -5, 0) normal (0, -1, 0) x (1, 0, 0)
  circle A0 centre (0, 0) radius 2.125
  dimension "d38" = 4.25
extrude "擠出12" [suppressed]
properties part number "Coupling"
